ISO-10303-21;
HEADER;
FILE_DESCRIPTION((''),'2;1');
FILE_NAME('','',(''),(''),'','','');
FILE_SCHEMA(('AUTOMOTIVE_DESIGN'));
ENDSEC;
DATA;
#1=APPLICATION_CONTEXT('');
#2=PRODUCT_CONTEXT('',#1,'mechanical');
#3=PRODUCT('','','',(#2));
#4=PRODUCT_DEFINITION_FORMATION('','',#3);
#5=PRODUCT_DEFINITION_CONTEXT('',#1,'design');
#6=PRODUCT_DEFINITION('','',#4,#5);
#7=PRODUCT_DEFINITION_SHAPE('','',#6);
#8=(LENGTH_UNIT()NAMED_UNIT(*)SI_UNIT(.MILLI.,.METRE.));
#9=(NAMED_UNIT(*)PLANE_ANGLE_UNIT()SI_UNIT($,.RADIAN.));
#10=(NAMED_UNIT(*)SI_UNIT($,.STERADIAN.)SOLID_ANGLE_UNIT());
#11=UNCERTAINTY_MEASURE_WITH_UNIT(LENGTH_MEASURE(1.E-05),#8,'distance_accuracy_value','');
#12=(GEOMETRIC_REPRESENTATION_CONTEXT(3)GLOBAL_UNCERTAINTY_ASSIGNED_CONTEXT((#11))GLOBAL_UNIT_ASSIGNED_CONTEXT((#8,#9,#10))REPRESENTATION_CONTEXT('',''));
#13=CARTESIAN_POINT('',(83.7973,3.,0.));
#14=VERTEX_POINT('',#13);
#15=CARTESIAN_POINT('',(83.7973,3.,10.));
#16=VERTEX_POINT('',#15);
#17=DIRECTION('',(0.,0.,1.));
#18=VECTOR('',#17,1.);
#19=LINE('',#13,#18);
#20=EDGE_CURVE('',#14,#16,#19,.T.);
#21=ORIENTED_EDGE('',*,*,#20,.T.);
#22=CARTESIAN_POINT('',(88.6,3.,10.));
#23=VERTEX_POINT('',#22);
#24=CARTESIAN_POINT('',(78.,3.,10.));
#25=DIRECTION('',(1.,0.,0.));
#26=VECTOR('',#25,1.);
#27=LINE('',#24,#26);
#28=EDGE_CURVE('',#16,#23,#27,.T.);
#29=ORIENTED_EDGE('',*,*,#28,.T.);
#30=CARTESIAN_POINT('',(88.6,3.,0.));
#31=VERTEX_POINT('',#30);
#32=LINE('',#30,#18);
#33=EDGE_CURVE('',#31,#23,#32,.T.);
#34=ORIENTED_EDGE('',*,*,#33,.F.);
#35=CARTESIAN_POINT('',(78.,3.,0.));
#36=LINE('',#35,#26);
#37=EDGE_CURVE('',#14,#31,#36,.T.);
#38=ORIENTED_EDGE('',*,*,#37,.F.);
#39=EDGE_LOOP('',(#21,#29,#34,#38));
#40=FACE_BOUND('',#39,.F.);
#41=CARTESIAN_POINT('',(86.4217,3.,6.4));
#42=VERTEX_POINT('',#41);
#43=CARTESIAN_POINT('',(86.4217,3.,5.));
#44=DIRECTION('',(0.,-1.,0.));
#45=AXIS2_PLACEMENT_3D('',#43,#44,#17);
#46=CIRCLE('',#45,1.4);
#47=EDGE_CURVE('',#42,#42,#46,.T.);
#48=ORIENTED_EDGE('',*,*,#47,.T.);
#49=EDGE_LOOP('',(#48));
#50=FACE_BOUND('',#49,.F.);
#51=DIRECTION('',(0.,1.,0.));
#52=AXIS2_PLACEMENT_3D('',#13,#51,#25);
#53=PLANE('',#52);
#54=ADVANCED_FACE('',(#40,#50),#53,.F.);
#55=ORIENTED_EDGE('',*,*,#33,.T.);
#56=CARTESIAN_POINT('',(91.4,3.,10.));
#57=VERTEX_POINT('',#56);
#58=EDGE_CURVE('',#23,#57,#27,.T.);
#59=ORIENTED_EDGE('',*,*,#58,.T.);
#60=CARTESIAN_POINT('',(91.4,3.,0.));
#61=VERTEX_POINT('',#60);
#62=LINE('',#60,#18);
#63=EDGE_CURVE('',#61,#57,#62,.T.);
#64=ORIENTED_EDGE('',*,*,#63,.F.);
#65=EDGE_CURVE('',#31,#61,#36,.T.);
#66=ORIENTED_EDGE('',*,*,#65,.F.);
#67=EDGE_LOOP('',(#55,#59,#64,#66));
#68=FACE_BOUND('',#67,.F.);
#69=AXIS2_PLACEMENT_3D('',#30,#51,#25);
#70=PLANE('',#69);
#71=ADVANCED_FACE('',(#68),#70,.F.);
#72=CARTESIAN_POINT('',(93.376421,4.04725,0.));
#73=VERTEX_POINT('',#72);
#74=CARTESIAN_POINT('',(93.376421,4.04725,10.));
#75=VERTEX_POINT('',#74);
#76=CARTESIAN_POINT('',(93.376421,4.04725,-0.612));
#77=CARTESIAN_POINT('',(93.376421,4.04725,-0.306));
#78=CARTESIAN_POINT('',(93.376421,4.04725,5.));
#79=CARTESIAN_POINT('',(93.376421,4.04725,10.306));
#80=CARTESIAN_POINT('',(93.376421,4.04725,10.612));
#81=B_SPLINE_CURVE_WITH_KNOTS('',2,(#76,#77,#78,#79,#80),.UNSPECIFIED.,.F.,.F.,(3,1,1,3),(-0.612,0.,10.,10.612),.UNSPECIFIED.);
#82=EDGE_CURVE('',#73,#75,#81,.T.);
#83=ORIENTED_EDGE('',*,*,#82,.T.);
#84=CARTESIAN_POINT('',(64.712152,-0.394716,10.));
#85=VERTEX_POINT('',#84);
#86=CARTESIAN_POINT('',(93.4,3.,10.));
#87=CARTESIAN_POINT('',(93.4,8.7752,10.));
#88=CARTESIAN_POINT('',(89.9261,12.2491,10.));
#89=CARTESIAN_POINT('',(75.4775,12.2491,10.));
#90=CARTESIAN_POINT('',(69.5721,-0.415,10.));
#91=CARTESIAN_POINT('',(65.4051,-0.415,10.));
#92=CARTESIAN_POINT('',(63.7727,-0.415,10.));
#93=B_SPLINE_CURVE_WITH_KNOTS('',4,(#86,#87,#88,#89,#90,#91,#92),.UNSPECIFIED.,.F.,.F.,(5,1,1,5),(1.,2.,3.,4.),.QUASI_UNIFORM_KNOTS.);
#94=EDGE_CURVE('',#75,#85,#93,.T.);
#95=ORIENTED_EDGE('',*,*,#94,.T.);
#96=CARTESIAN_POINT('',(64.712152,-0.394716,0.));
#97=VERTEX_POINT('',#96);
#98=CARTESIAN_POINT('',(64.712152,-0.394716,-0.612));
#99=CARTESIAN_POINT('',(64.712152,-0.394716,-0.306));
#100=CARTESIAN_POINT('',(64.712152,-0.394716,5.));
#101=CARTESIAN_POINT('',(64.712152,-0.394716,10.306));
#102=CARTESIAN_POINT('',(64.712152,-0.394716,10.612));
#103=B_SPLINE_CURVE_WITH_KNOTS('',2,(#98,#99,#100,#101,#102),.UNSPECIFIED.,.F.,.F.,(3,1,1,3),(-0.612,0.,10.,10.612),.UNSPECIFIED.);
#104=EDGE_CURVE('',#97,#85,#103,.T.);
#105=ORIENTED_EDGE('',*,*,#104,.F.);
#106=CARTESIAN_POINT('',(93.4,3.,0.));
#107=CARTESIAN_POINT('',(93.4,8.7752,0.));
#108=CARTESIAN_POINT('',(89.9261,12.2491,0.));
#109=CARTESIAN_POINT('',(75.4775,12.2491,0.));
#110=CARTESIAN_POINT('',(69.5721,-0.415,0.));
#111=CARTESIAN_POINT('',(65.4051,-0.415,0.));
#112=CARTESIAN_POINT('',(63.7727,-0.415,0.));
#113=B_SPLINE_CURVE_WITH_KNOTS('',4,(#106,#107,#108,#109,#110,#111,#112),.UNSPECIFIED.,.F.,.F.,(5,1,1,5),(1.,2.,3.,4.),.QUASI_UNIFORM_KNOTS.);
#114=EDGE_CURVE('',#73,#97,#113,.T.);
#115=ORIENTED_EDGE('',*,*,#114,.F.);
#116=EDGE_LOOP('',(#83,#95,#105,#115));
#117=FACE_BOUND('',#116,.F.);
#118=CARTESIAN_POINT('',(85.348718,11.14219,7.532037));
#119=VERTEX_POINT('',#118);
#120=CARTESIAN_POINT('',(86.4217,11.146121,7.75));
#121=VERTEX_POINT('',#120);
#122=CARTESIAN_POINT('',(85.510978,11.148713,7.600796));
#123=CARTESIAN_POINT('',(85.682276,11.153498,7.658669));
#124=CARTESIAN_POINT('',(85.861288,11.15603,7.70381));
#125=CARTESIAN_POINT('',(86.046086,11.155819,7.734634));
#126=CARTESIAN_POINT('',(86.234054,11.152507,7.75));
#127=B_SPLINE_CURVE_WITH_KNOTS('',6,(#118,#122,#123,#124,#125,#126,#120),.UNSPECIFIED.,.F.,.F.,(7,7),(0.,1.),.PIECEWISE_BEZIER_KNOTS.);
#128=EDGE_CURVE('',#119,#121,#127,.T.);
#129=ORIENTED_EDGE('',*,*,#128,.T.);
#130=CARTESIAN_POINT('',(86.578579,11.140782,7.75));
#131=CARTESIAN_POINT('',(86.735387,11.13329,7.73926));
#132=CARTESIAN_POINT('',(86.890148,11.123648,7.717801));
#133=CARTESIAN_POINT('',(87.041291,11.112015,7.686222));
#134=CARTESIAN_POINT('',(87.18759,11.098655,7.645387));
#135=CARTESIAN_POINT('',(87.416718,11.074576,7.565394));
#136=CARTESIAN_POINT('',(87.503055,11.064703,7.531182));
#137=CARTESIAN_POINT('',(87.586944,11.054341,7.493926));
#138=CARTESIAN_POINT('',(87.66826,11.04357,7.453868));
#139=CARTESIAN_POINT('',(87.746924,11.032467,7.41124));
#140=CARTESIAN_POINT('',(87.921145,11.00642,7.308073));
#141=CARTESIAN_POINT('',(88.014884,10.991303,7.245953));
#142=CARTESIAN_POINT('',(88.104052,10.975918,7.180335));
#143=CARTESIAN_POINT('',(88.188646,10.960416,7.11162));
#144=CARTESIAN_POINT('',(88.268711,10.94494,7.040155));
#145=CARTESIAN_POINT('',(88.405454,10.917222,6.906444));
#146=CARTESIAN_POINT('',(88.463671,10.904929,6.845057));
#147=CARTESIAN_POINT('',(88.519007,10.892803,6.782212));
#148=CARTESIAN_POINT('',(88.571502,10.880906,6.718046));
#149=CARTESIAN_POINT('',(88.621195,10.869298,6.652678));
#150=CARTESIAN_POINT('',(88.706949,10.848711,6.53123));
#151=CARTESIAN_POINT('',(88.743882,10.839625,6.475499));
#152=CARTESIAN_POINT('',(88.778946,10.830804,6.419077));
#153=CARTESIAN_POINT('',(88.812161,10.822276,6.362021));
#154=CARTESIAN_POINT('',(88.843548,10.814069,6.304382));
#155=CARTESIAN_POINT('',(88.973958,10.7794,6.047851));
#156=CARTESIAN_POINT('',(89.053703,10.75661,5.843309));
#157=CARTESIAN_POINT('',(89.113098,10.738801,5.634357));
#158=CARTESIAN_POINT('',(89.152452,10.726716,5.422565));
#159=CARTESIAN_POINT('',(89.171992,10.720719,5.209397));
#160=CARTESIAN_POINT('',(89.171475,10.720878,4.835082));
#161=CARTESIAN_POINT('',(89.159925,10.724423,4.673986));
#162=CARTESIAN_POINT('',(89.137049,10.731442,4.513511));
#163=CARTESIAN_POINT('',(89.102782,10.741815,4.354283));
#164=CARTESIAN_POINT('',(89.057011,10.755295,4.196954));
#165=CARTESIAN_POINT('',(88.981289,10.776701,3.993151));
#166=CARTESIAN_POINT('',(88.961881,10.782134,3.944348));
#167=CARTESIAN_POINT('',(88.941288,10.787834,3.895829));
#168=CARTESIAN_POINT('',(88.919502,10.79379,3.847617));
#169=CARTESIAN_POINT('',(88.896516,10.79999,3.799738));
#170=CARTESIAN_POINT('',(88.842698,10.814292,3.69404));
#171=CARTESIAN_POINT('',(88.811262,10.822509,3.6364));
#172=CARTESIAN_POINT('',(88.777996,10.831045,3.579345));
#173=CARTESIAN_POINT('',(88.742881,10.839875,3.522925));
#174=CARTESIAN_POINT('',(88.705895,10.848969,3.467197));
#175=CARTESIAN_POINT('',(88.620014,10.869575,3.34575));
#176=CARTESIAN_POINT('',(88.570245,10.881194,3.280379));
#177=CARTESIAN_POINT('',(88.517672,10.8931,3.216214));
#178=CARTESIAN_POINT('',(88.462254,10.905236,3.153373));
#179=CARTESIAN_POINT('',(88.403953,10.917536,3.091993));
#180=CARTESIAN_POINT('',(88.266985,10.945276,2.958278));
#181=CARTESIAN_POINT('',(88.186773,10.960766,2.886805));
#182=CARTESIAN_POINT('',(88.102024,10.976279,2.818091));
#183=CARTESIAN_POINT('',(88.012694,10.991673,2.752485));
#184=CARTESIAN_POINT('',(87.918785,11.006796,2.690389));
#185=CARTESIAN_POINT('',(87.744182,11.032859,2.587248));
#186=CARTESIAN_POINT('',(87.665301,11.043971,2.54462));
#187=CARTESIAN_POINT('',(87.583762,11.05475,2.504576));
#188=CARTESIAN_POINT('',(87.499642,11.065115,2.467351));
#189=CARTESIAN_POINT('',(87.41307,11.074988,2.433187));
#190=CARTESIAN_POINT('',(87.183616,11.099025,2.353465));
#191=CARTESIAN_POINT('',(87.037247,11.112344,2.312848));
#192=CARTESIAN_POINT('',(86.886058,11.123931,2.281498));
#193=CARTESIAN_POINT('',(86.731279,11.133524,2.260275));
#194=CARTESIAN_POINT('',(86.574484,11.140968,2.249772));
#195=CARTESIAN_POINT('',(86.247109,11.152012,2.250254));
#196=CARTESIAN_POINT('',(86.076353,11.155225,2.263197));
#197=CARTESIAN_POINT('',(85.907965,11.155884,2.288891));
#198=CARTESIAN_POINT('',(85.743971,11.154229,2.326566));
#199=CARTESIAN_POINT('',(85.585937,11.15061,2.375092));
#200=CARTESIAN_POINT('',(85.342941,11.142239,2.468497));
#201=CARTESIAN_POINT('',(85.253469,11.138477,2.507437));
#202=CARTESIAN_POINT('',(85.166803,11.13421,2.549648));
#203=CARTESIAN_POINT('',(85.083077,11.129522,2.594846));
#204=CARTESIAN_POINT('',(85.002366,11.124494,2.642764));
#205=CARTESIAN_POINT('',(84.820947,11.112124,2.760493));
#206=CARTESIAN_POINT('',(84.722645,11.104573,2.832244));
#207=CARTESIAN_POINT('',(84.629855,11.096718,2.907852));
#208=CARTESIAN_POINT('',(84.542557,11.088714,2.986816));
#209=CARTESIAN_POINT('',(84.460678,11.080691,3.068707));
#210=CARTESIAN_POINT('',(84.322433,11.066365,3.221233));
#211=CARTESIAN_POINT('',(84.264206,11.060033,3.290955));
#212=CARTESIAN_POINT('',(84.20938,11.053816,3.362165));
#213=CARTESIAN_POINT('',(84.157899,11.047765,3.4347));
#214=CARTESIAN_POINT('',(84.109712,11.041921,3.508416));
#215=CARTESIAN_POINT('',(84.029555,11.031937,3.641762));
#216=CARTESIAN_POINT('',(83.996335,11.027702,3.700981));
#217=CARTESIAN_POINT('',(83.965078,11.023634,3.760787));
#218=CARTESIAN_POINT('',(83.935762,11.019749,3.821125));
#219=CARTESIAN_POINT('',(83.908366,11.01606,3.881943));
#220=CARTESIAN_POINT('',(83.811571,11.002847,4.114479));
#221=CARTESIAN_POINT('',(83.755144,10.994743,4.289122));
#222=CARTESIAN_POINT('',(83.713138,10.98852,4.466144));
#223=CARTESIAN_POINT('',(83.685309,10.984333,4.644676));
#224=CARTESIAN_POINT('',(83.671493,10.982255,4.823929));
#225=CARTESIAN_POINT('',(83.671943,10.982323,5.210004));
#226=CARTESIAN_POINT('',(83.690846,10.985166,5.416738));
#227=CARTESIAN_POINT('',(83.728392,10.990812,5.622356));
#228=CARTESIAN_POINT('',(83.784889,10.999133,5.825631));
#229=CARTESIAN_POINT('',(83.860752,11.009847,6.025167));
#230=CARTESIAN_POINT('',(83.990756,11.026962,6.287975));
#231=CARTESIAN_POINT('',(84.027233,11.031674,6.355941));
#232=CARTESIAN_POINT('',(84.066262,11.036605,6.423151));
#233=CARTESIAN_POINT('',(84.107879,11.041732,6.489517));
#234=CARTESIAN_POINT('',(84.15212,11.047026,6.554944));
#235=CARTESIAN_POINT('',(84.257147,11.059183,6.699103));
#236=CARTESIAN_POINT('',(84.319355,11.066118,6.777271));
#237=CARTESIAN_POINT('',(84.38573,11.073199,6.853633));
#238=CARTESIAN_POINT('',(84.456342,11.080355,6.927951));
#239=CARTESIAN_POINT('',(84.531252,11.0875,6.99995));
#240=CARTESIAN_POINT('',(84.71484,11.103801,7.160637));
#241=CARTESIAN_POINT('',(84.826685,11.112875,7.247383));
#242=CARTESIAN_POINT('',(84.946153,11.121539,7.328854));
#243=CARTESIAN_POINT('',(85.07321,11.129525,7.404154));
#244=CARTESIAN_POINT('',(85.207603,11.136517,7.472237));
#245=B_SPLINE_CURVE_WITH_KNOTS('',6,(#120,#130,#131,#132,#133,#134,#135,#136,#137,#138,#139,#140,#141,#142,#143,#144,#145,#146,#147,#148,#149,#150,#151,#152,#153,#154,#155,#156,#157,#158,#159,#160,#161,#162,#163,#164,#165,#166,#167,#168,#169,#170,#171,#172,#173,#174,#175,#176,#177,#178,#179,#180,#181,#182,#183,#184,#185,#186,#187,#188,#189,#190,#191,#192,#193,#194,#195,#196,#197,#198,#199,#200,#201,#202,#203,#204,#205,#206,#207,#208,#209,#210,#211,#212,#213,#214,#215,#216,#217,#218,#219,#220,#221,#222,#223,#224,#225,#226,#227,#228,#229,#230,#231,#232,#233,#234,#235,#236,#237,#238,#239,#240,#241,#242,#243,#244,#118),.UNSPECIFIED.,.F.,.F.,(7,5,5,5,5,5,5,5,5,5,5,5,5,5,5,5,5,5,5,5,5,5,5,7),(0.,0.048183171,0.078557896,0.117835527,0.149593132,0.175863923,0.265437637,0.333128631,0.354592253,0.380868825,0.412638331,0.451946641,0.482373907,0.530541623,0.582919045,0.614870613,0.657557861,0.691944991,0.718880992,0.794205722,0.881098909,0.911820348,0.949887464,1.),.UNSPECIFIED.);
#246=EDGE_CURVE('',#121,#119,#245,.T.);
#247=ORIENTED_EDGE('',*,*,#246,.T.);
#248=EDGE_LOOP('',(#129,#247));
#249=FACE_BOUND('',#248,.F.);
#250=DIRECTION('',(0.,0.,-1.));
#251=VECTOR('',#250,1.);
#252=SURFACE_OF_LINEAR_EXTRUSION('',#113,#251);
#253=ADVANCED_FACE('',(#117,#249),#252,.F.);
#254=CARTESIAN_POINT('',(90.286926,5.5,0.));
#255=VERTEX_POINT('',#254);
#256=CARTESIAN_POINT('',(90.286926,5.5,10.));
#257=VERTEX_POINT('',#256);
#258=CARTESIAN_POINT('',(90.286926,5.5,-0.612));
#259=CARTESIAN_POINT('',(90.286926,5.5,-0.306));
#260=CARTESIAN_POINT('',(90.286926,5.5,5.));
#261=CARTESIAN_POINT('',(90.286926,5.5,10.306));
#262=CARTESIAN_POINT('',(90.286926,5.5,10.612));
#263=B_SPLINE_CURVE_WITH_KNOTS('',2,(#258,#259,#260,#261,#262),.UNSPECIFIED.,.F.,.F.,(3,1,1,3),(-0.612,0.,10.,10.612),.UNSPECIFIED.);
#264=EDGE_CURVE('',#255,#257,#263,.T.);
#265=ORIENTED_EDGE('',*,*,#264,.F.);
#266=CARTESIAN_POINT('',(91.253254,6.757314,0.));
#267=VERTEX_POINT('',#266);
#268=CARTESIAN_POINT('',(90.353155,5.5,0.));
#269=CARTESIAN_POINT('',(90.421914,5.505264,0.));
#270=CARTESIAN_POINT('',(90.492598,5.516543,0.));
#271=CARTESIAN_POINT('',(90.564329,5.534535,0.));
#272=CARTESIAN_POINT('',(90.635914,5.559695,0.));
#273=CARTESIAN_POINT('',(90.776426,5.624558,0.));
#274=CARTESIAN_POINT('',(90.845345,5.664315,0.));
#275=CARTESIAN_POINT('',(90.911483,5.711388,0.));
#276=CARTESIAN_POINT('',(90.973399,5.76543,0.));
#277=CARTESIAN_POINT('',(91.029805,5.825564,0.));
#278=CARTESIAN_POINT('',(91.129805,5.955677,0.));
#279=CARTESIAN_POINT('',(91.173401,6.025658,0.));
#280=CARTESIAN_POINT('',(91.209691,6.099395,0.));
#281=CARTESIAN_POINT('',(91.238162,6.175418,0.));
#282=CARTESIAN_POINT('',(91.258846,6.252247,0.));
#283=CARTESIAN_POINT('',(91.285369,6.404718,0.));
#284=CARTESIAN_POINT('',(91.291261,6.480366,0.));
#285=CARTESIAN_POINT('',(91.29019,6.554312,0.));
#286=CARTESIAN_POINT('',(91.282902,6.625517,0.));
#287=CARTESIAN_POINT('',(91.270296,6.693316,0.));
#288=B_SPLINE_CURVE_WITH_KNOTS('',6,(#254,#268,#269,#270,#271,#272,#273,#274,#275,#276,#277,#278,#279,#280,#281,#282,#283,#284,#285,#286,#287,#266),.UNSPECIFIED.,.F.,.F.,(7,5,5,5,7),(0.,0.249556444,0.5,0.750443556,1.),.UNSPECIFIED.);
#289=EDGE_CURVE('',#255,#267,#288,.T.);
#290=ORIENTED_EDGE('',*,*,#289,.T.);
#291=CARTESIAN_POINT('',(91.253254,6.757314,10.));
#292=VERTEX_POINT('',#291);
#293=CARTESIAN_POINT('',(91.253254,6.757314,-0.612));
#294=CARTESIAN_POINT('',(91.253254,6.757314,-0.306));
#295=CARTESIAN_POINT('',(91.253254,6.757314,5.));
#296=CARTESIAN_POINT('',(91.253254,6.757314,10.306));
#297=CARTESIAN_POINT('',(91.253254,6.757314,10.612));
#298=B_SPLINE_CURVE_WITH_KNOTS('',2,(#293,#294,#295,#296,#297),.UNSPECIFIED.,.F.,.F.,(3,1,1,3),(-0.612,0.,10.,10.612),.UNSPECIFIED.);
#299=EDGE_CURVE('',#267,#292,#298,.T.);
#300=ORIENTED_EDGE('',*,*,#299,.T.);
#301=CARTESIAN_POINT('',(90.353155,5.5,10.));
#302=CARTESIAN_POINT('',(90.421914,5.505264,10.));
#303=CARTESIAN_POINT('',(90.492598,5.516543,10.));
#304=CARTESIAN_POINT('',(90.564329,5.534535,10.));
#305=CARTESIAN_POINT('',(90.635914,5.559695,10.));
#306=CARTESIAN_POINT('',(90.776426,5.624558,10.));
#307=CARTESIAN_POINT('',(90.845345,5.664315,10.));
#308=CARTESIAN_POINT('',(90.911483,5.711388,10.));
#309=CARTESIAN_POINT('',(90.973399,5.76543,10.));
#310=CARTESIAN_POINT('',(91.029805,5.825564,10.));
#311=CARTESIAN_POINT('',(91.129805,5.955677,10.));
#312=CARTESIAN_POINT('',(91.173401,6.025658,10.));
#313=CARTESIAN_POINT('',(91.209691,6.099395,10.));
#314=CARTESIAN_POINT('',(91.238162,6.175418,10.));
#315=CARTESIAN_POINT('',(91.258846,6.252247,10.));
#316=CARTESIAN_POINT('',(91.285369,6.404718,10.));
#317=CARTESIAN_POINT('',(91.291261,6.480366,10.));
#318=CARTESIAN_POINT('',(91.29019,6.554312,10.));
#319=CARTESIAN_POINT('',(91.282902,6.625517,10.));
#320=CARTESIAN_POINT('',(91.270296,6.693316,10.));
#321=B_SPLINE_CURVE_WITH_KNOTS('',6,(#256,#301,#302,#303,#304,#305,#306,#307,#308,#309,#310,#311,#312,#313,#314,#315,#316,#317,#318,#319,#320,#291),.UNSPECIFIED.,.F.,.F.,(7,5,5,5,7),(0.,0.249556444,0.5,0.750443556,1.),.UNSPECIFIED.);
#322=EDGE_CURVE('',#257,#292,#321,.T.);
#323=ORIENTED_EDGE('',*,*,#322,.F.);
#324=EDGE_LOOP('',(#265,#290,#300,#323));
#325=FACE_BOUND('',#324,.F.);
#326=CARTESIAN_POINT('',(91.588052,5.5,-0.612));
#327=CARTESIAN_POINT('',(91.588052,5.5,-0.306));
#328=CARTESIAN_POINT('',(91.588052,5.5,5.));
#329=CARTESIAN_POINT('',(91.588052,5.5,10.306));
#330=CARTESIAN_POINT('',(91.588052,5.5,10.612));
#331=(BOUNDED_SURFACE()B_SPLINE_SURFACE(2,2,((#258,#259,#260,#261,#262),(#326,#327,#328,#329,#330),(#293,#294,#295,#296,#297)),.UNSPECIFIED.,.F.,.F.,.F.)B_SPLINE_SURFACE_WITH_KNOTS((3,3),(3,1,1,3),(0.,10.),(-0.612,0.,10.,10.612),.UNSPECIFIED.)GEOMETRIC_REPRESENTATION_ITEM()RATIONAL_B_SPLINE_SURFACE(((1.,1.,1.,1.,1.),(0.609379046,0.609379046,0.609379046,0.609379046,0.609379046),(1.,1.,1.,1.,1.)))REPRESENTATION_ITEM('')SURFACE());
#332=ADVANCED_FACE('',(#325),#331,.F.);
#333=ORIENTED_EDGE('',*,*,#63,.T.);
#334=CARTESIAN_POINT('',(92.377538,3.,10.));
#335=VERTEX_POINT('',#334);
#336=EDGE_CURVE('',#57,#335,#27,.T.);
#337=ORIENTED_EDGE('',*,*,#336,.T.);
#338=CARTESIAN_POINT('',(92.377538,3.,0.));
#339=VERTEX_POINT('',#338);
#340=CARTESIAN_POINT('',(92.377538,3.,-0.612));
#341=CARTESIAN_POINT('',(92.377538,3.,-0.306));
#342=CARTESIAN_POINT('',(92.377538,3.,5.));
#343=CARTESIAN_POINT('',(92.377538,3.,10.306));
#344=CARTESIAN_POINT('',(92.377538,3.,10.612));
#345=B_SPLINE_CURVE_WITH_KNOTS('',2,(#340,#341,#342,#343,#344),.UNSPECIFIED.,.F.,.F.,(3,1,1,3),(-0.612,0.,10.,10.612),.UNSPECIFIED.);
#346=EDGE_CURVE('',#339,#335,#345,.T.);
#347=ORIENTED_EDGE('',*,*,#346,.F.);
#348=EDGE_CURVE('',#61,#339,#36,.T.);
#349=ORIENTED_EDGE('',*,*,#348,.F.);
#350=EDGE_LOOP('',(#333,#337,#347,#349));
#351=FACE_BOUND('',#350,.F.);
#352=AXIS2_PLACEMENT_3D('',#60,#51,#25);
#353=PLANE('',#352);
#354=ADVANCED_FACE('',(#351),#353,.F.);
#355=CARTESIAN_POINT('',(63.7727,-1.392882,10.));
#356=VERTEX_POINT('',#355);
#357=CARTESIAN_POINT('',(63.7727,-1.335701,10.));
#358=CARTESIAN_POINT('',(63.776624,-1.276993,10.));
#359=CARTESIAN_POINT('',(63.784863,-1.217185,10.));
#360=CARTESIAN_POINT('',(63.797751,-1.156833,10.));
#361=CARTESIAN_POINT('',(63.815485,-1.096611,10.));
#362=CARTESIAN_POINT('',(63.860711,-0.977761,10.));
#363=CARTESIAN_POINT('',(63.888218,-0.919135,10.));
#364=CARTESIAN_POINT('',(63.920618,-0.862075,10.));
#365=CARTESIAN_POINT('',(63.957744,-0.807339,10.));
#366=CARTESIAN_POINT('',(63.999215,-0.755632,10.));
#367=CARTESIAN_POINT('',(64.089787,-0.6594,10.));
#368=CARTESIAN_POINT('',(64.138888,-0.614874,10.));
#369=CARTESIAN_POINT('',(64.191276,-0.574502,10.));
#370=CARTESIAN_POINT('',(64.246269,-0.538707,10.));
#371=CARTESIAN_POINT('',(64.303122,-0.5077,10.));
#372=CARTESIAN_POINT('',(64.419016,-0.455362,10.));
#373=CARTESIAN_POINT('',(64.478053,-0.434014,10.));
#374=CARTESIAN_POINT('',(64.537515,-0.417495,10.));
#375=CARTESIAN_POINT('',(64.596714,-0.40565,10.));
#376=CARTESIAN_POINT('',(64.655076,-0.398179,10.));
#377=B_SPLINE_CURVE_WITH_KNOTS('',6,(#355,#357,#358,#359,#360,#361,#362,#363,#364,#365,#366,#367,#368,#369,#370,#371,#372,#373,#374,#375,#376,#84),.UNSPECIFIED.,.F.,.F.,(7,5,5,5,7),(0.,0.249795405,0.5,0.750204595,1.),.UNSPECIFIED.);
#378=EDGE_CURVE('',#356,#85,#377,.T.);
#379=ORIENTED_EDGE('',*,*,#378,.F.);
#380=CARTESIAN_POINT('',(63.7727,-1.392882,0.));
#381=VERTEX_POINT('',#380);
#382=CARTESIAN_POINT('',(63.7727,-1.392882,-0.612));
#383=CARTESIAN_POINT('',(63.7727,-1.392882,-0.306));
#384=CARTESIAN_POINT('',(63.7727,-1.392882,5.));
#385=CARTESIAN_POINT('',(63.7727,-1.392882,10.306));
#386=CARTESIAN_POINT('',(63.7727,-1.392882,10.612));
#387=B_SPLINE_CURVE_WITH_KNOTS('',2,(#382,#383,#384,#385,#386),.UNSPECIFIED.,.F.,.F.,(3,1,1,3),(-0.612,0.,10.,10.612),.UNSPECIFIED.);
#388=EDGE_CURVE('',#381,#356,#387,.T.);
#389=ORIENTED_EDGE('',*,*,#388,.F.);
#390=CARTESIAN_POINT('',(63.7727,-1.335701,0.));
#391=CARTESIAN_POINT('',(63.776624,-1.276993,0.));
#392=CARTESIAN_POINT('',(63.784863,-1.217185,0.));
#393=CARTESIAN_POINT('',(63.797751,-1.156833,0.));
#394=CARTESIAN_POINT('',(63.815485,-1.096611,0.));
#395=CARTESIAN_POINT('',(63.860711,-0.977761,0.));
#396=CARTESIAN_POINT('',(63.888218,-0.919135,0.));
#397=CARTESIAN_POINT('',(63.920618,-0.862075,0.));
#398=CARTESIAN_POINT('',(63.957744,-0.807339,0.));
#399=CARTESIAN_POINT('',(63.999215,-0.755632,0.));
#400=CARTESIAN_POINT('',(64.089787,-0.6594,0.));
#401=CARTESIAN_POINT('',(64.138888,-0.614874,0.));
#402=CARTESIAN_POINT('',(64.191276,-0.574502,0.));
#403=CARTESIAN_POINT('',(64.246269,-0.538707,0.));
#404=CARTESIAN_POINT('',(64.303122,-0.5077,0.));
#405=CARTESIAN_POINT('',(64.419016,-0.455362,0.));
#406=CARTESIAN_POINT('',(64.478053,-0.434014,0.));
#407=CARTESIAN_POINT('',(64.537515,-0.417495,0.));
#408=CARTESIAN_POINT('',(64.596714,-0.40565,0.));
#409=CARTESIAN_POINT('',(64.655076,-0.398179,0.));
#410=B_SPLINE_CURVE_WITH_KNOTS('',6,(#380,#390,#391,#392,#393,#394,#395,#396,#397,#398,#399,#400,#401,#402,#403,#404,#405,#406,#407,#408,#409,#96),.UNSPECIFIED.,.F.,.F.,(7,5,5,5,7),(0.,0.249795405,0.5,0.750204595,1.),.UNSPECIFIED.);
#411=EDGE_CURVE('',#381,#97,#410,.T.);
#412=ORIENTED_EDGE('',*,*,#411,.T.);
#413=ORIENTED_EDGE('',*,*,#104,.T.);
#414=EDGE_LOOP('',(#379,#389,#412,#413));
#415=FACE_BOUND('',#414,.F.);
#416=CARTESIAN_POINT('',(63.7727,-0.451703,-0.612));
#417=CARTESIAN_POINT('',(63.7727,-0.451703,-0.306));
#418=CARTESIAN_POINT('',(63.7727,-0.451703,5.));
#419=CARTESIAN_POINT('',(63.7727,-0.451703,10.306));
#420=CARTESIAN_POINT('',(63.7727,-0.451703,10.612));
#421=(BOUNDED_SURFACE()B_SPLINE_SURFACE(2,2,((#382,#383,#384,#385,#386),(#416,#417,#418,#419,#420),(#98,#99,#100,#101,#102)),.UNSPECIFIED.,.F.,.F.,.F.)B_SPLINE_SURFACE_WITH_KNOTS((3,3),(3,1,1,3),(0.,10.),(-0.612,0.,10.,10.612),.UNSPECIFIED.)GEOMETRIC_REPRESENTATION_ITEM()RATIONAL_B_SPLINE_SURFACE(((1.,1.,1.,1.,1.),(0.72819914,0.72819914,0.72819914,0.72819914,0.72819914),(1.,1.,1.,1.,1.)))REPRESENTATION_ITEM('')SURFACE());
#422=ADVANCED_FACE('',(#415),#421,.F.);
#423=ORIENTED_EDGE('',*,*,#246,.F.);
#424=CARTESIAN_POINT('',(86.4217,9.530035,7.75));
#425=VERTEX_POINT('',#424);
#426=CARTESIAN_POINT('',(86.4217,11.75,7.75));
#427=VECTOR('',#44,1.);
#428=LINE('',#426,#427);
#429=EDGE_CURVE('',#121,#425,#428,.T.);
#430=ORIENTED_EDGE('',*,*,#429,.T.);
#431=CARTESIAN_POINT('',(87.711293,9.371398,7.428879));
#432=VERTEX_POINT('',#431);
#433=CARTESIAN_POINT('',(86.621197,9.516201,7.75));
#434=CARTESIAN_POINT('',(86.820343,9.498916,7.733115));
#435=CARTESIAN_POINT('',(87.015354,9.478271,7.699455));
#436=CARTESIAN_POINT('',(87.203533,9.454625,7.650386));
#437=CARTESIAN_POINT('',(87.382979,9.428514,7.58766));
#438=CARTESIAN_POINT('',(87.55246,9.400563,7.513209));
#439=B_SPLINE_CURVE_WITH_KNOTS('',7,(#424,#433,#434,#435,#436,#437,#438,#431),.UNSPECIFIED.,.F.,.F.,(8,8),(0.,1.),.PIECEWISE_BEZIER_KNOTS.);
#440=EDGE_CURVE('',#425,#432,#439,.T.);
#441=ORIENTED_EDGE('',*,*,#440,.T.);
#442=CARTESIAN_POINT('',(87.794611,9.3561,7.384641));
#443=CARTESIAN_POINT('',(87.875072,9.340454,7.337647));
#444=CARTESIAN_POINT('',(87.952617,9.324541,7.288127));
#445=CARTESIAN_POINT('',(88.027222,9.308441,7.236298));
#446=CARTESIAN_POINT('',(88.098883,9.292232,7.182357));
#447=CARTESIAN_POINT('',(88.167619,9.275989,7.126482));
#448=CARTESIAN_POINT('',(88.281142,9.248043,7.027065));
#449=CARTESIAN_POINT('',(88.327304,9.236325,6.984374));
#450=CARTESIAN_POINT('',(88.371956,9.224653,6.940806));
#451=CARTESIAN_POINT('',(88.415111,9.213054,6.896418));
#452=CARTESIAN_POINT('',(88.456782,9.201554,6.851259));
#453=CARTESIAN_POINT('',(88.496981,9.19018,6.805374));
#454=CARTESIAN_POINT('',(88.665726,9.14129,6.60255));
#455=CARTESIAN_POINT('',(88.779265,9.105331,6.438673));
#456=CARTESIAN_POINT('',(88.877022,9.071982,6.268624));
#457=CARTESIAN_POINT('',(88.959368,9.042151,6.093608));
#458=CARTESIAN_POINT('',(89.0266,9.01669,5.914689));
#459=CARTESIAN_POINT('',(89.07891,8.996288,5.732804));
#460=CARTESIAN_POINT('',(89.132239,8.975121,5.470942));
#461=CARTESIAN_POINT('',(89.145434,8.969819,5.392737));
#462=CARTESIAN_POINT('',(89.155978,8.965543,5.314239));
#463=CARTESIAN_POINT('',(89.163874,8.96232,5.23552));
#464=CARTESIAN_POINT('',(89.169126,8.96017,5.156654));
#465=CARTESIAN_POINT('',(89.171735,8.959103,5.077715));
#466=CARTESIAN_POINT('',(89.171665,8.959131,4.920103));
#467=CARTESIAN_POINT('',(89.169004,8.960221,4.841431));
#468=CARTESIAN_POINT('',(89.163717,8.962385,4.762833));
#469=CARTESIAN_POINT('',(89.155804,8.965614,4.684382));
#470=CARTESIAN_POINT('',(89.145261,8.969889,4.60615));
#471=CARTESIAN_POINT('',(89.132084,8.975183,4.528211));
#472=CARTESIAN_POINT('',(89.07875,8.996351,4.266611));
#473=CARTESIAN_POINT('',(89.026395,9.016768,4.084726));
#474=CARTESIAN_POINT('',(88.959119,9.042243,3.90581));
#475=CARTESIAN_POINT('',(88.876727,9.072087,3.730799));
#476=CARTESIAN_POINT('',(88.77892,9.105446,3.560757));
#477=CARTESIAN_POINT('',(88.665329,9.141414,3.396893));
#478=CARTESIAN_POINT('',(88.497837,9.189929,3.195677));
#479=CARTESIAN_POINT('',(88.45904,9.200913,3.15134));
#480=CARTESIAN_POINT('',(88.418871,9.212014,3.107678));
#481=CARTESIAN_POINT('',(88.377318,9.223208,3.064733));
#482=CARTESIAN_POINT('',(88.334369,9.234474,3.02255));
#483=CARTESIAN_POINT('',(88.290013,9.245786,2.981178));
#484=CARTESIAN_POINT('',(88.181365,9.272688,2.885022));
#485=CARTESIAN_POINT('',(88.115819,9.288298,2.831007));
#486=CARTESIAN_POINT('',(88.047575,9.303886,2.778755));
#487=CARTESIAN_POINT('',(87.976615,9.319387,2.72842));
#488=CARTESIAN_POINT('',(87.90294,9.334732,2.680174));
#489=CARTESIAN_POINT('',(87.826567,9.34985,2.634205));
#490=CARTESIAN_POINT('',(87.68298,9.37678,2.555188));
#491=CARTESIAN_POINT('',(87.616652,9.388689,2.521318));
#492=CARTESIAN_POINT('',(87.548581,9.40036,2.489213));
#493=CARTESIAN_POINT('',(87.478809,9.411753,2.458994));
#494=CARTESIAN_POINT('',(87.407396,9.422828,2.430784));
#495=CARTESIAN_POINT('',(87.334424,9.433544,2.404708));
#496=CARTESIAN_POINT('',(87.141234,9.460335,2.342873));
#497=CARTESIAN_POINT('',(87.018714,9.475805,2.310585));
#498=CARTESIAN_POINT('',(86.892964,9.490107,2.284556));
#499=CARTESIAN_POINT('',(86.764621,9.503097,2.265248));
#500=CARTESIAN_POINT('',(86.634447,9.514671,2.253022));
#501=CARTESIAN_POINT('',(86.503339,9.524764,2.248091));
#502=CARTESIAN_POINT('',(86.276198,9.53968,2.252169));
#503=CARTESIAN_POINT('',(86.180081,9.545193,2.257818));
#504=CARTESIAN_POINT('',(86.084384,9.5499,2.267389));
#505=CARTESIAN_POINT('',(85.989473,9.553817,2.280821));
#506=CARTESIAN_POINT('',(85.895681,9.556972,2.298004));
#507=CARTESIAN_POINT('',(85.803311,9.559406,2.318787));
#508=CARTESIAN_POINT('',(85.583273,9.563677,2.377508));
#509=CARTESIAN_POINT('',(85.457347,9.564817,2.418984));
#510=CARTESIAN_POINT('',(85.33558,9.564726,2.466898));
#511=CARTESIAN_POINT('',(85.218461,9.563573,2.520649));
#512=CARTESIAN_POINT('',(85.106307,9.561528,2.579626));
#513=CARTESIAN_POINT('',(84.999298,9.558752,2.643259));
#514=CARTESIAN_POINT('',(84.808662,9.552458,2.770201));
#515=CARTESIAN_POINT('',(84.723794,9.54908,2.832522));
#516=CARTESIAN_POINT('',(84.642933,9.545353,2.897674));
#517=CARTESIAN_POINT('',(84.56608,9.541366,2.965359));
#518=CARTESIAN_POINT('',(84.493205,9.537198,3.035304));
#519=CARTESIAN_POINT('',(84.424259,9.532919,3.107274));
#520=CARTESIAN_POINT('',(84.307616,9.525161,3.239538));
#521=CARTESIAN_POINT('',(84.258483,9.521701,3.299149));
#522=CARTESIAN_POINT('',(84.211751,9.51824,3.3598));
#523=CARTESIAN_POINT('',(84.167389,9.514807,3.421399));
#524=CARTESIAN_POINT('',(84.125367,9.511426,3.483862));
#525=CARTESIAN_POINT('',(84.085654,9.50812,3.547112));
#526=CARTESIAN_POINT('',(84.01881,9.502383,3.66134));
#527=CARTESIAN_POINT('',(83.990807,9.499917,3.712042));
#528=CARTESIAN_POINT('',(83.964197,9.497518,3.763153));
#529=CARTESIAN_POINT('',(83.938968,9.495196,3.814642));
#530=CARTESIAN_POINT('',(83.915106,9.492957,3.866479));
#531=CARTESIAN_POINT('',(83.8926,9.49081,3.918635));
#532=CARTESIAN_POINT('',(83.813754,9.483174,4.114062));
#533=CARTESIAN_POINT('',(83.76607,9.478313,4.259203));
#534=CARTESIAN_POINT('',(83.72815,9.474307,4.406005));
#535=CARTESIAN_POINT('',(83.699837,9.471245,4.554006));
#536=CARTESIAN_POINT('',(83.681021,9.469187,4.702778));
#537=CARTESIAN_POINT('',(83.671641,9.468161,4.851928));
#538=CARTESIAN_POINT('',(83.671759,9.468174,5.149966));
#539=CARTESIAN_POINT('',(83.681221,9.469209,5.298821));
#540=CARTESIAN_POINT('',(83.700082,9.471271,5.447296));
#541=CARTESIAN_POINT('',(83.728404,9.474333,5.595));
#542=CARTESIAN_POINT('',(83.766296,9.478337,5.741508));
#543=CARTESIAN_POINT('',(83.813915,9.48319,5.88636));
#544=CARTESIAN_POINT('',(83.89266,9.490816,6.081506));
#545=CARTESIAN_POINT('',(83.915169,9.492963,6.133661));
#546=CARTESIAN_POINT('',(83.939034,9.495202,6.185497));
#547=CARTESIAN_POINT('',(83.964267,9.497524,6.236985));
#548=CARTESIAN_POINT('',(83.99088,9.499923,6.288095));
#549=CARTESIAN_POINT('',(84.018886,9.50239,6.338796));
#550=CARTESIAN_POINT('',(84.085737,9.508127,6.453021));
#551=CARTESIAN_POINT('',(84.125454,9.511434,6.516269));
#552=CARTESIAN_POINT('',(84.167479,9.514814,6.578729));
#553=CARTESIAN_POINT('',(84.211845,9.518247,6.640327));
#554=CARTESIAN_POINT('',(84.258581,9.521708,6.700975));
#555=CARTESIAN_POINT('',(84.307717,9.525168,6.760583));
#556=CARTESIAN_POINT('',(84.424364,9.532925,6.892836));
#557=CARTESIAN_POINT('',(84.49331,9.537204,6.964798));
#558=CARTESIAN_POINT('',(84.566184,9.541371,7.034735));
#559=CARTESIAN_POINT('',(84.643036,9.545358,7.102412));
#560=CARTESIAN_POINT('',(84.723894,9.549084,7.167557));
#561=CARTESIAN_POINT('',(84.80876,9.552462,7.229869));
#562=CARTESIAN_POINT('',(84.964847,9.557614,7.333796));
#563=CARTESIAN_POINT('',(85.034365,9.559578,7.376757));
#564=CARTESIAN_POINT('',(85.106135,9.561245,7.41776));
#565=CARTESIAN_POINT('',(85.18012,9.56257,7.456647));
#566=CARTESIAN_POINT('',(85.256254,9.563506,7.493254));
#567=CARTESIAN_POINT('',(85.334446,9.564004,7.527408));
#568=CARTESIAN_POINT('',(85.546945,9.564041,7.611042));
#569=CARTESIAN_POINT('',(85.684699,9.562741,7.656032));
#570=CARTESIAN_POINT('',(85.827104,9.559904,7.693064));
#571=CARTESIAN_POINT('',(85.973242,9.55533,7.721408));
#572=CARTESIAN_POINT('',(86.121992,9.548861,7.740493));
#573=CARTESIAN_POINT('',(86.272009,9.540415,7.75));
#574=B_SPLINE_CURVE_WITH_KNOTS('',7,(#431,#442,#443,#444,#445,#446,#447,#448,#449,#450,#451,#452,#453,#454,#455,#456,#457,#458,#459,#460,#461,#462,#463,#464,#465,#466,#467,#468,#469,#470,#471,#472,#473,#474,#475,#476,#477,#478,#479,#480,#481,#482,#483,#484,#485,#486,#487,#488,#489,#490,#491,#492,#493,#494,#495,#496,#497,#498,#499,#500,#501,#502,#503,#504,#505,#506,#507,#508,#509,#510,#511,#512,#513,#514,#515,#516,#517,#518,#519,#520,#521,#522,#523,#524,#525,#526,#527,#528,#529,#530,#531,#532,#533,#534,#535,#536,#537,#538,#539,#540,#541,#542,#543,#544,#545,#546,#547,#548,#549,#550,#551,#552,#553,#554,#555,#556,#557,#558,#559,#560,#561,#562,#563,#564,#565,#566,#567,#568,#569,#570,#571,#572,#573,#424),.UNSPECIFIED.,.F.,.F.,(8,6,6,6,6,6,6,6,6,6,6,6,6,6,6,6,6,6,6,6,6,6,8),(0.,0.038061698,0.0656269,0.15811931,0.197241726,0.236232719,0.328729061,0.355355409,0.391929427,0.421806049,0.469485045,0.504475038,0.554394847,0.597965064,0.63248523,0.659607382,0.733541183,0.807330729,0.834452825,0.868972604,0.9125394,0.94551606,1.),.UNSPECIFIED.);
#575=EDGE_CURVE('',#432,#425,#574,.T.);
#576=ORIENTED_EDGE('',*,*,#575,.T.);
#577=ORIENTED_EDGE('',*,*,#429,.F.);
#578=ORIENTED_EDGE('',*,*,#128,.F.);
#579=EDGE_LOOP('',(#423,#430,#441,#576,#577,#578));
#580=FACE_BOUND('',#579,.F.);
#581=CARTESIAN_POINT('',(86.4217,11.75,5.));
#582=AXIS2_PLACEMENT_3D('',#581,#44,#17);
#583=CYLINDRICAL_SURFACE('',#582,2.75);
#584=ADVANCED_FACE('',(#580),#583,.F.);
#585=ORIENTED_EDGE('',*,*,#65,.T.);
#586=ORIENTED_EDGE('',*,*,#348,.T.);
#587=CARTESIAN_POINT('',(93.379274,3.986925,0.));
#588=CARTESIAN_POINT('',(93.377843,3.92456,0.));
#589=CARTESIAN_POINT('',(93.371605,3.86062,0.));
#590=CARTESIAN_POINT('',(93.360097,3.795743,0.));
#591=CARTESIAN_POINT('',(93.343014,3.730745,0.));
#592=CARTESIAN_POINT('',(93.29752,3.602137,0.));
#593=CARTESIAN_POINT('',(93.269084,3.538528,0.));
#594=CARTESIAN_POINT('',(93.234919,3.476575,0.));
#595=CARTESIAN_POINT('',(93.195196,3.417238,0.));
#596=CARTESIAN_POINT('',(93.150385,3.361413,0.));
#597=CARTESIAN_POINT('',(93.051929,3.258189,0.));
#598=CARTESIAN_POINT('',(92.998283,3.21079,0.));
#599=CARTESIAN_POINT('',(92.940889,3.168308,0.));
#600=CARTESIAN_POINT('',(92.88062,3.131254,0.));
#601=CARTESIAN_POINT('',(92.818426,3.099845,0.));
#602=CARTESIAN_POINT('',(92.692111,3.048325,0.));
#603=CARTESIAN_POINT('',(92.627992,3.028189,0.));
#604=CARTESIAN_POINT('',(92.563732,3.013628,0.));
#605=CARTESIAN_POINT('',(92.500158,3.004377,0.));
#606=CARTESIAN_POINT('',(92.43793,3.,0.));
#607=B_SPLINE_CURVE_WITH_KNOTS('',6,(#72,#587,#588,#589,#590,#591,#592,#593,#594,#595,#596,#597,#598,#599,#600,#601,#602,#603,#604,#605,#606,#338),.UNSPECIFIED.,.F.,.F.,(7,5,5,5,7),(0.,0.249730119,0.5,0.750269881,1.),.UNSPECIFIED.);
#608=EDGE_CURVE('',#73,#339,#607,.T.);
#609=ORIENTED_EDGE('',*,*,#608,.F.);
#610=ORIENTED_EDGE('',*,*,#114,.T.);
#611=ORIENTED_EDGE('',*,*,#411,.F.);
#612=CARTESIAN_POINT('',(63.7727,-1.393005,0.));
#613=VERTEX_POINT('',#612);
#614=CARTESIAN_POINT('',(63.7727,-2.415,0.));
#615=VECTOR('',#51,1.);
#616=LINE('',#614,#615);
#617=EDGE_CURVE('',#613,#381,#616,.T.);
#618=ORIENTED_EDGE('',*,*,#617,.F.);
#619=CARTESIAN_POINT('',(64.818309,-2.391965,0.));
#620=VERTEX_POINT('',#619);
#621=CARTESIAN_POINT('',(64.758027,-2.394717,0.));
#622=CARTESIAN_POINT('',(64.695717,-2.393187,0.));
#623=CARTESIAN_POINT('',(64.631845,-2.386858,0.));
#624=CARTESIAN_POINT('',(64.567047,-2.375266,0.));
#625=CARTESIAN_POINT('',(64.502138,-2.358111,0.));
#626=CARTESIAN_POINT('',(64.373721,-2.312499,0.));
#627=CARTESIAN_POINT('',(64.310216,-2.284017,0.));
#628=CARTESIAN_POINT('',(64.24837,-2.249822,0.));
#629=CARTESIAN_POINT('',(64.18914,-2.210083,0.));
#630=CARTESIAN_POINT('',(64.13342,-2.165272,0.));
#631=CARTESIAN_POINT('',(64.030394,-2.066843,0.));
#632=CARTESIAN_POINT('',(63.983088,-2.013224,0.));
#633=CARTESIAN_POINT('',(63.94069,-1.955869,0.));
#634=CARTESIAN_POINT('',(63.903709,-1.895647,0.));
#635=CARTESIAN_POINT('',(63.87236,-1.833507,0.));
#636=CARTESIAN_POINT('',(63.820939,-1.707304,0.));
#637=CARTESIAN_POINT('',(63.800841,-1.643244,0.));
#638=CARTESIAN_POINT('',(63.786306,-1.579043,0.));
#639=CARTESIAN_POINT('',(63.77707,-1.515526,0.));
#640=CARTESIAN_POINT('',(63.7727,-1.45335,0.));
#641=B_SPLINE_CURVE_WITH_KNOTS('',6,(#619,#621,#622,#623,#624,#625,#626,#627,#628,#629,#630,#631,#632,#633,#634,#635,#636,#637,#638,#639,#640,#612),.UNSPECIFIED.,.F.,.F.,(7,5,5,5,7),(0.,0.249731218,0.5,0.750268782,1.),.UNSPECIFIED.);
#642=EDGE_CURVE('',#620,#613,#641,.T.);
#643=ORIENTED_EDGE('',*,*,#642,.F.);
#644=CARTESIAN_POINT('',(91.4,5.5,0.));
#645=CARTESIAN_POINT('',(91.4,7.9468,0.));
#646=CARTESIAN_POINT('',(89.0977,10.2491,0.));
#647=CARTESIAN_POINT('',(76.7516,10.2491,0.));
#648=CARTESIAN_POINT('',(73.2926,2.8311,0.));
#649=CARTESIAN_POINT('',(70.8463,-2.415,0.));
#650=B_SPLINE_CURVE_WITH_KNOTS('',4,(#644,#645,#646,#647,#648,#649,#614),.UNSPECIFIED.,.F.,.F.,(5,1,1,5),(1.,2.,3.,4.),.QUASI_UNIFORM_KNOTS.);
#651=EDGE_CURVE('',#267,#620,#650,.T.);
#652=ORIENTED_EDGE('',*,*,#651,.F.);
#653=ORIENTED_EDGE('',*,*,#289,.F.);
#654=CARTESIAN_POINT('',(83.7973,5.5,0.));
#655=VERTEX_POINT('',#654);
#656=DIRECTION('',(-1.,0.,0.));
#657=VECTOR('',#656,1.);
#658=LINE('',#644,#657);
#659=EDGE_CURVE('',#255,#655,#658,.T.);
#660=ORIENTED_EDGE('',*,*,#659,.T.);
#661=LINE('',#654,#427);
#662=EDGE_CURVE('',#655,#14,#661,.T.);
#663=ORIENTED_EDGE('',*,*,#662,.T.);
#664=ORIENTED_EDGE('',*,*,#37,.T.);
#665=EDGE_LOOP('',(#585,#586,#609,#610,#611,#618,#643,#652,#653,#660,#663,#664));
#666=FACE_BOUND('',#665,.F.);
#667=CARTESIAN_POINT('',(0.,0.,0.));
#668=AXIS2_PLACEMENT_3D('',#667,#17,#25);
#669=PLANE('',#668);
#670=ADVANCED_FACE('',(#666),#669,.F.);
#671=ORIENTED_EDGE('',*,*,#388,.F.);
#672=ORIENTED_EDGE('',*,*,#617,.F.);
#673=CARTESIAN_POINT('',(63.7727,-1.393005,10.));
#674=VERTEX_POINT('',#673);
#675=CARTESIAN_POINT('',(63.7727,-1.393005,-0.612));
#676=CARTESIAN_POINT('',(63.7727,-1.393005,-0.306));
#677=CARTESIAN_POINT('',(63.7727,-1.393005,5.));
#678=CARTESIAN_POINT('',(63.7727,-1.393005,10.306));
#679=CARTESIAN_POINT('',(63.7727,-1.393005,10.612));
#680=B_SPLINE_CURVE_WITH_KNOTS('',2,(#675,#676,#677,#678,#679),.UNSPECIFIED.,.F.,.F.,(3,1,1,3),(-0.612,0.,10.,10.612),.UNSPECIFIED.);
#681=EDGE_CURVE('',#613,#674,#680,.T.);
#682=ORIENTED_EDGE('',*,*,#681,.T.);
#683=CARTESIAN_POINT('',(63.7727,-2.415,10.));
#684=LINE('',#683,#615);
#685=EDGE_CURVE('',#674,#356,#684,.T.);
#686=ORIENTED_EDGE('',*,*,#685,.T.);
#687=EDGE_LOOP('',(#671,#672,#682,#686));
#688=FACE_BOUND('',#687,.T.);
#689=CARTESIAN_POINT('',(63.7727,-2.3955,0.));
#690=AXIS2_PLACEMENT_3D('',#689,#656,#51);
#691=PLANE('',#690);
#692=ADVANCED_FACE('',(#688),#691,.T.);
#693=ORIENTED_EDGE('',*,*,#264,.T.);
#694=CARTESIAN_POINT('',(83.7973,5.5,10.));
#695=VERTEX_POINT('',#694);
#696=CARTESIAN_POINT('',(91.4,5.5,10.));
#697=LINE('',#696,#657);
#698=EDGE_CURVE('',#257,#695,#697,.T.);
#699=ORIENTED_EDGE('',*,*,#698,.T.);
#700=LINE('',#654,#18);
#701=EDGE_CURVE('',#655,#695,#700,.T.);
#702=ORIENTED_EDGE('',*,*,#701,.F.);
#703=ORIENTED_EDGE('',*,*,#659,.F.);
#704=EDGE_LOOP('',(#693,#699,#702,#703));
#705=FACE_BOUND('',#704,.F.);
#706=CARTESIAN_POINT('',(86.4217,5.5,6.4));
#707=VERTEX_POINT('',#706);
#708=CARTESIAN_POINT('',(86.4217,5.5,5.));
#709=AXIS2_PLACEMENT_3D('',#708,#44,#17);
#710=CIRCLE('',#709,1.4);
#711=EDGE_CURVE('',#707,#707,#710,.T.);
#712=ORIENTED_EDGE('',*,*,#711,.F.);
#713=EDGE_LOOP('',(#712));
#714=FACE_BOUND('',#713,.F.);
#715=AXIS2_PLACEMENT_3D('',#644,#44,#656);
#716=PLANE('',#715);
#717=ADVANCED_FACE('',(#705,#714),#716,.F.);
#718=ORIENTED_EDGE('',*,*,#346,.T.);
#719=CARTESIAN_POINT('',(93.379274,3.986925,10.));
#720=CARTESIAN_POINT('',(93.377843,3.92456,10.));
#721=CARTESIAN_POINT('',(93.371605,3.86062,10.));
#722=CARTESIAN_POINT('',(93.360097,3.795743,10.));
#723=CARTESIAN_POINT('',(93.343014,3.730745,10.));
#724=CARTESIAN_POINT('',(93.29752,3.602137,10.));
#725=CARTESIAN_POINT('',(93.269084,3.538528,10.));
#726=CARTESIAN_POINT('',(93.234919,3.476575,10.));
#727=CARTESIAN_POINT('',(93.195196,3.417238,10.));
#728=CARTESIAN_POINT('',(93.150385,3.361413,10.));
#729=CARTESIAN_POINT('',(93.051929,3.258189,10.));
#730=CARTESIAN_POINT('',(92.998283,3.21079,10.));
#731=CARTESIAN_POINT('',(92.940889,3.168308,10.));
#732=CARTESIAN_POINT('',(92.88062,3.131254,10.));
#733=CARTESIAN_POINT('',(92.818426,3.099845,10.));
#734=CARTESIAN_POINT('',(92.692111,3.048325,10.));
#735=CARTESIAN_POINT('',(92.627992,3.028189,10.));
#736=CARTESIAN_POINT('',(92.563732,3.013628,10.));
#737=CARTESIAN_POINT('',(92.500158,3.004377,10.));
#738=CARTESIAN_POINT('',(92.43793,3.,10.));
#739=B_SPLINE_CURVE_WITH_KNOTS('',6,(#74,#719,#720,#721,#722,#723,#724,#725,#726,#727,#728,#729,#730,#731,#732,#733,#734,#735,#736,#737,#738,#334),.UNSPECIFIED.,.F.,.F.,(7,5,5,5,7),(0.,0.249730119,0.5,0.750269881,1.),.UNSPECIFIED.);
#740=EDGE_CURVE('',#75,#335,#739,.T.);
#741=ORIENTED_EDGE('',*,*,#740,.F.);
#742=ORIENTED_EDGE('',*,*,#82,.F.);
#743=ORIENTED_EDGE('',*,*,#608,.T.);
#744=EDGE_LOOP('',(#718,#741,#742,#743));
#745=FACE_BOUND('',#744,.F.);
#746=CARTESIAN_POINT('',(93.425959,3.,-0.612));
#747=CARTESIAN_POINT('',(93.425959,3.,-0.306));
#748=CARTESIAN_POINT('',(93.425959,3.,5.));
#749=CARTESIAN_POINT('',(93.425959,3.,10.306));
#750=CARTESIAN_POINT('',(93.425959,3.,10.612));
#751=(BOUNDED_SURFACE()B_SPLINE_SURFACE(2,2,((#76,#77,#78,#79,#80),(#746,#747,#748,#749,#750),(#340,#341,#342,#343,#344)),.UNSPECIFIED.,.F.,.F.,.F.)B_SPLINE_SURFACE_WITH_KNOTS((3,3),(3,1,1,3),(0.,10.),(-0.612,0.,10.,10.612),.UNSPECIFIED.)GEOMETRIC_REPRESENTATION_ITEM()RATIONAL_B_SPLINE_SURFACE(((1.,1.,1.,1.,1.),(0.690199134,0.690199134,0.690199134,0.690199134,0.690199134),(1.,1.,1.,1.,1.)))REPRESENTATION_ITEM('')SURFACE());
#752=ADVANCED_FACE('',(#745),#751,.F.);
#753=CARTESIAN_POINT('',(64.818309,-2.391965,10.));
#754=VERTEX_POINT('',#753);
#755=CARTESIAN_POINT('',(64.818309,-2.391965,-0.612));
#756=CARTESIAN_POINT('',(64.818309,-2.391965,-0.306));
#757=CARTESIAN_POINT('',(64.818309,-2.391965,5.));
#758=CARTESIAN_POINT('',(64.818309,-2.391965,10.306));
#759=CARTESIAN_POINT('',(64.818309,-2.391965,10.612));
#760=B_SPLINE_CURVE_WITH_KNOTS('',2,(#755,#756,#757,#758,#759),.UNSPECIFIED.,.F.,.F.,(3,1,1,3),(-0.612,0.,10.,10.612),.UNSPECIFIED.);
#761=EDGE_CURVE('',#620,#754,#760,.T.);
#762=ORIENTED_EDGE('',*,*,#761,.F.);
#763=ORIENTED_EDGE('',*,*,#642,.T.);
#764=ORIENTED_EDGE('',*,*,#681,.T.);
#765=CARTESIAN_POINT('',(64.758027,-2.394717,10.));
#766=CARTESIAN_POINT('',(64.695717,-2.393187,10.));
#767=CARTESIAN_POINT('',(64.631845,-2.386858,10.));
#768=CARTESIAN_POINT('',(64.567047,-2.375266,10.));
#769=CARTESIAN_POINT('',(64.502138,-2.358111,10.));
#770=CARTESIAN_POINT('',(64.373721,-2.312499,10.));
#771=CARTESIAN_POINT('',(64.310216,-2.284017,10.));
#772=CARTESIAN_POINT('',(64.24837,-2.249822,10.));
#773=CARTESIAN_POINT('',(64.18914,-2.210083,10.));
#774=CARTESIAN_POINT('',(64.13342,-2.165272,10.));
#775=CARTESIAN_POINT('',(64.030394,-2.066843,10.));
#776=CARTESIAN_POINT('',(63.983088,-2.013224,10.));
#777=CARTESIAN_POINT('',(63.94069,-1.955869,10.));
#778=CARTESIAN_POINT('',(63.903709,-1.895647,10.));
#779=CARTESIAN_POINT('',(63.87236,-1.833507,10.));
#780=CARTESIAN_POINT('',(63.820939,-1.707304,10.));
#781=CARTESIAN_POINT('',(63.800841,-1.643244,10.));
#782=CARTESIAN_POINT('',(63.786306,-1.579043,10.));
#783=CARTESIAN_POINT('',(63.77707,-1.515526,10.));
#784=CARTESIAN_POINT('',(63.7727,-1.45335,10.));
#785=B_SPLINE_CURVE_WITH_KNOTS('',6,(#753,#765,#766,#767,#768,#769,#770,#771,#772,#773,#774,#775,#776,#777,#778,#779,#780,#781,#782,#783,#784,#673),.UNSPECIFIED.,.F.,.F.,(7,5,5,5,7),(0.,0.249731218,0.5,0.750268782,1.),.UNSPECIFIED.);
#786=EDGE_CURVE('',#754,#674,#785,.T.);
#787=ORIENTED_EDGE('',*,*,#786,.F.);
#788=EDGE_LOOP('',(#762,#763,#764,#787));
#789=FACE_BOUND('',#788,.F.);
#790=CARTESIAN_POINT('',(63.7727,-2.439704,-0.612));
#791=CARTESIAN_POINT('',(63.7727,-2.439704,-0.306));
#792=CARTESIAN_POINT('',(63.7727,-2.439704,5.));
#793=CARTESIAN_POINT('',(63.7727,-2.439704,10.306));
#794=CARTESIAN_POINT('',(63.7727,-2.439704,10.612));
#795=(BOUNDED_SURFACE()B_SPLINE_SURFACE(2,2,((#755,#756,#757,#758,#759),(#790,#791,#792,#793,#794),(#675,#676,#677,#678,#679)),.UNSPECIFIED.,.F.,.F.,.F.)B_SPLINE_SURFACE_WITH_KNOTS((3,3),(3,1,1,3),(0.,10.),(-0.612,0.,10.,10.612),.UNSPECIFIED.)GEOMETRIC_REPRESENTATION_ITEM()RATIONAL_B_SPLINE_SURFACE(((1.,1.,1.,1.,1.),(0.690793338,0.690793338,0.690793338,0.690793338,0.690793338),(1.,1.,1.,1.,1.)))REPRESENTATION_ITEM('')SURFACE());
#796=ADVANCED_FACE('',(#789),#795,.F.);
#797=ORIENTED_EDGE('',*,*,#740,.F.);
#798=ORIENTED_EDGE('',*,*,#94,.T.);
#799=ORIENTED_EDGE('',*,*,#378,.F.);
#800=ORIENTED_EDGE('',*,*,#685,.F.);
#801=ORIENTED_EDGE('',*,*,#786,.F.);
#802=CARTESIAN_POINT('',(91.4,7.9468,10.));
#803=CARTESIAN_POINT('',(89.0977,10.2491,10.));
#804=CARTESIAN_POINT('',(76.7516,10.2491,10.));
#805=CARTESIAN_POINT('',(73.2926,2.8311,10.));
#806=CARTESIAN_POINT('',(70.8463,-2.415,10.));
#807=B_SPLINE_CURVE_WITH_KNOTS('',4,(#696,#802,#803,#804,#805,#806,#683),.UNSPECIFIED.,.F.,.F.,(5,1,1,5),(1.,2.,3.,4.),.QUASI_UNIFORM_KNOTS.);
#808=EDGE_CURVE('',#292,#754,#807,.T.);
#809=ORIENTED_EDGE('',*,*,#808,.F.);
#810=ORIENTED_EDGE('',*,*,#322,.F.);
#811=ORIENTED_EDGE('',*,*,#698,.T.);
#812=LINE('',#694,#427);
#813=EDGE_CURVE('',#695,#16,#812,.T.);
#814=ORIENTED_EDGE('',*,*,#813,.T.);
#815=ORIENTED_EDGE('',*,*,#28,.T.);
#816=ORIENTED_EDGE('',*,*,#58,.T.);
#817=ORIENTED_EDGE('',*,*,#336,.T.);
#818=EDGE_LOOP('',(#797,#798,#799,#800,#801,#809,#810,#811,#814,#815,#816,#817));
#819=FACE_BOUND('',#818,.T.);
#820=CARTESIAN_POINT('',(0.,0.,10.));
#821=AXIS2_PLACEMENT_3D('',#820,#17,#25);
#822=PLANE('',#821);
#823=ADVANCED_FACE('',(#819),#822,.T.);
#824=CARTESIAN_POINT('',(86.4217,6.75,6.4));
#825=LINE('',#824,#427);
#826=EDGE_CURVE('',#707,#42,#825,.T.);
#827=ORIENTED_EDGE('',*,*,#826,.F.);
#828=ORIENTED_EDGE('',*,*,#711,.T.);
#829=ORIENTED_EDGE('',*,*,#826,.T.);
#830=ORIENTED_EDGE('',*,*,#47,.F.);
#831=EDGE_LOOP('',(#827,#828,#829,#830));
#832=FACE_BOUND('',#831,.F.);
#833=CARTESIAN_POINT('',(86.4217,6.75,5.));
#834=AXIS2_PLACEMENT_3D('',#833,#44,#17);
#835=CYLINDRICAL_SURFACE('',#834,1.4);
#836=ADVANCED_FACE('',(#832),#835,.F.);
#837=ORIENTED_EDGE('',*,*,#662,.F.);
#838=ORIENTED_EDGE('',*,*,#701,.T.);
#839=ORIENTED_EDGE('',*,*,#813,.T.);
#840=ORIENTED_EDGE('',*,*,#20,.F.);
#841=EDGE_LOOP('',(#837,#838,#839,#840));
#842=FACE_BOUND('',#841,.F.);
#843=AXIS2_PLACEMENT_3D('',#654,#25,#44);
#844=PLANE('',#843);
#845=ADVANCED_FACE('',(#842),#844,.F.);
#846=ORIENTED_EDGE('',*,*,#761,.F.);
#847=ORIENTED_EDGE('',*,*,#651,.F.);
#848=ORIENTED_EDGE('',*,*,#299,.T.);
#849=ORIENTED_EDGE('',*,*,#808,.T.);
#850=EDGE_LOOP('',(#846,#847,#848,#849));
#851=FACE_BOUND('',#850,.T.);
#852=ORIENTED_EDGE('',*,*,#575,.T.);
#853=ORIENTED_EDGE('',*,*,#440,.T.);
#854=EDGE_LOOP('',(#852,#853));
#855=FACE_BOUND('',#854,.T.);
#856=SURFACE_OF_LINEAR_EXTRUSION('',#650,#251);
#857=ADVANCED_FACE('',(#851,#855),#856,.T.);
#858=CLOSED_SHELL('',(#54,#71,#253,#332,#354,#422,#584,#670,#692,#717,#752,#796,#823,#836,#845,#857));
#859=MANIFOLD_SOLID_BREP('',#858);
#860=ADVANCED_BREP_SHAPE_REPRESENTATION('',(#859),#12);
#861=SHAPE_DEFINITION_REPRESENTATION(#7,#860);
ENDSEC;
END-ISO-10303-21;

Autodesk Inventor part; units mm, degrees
ref_plane "YZ Plane" through (0, 0, 0) normal (1, 0, 0) x (0, 1, 0)
ref_plane "XZ Plane" through (0, 0, 0) normal (0, 1, 0) x (-1, 0, 0)
ref_plane "XY Plane" through (0, 0, 0) normal (0, 0, 1) x (1, 0, 0)
ref_plane "Arbeitsebene1" through (0, 0, 0) normal (0, 0, 1) x (1, 0, 0)
sketch "Skizze1" plane through (0, 0, 0) normal (0, 0, 1) x (1, 0, 0)
  line L0 (78, 3) -> (108.3, 3) projected
  line L1 (77, -2.3955) -> (1, -2.3955) projected
  line L2 (88.6, 3) -> (91.4, 3) projected
  line L3 (91.4, 3) -> (91.4, 0)
  line L4 (88.6, 3) -> (88.6, 0)
  line L5 (83.7973, 3) -> (93.4, 3)
  line L6 (93.4, 3) -> (93.4, 8.7752) construction
  line L7 (93.4, 8.7752) -> (89.9261, 12.2491) construction
  line L8 (89.9261, 12.2491) -> (75.4775, 12.2491) construction
  line L9 (75.4775, 12.2491) -> (69.5721, -0.415) construction
  line L10 (69.5721, -0.415) -> (65.4051, -0.415) construction
  line L11 (65.4051, -0.415) -> (63.7727, -0.415) construction
  spline S0 degree 4 poles (93.4, 3) (93.4, 8.7752) (89.9261, 12.2491) (75.4775, 12.2491) (69.5721, -0.415) (65.4051, -0.415) (63.7727, -0.415) knots 1 1 1 1 1 2 3 4 4 4 4 4
  line L12 (91.4, 5.5) -> (91.4, 7.9468) construction
  line L13 (91.4, 7.9468) -> (89.0977, 10.2491) construction
  line L14 (89.0977, 10.2491) -> (76.7516, 10.2491) construction
  line L15 (76.7516, 10.2491) -> (73.2926, 2.8311) construction
  line L16 (73.2926, 2.8311) -> (70.8463, -2.415) construction
  line L17 (70.8463, -2.415) -> (63.7727, -2.415) construction
  spline S1 degree 4 poles (91.4, 5.5) (91.4, 7.9468) (89.0977, 10.2491) (76.7516, 10.2491) (73.2926, 2.8311) (70.8463, -2.415) (63.7727, -2.415) knots 1 1 1 1 1 2 3 4 4 4 4 4
  line L18 (91.4, 5.5) -> (83.7973, 5.5)
  line L19 (83.7973, 5.5) -> (83.7973, 3)
  line L20 (63.7727, -2.415) -> (63.7727, -0.415)
  point P0 (0, 0)
  point P1 (63.7727, -2.3955)
  point P2 (64.7379, -2.3955)
  dimension "d0" = 2
  dimension "d1" = 2
  dimension "d2" = 2
  dimension "d3" = 2
  dimension "d4" = 2
  dimension "d5" = 45
  dimension "d6" = 65
  dimension "d7" = 2.5
extrude "Extrusion1" add sketch "Skizze1" along normal blind 10 contours L19 L18 S1 L1 L20 S0 L0
ref_plane "Arbeitsebene2" through (83.7973, 11.75, 0) normal (0, 1, 0) x (1, 0, 0)
sketch "Skizze2" plane through (83.7973, 11.75, 0) normal (0, 1, 0) x (1, 0, 0)
  line L0 (7.6027, 0) -> (0, 0) projected
  line L1 (0, 0) -> (0, -10) projected
  line L2 (7.6027, -10) -> (0, -10) projected
  line L3 (7.6027, 0) -> (7.6027, -10) projected
  circle A0 centre (2.6244, -5) radius 1
  point P0 (-83.7973, 0)
  dimension "d11" = 2
hole "Bohrung1" at (86.4217, 11.75, 5) direction (0, -1, 0) diameter 2.8 end through all counterbore diameter 5.5 counterbore depth 5
fillet "Rundung1" radius 1 4 edges at (91.4, 5.5, 5) (63.7727, -0.415, 5) (63.7727, -2.3955, 5) (93.4, 3, 5)
properties part number "30_XYTabel_Aliexpress_cellSTORM_chiptray_clamp"
